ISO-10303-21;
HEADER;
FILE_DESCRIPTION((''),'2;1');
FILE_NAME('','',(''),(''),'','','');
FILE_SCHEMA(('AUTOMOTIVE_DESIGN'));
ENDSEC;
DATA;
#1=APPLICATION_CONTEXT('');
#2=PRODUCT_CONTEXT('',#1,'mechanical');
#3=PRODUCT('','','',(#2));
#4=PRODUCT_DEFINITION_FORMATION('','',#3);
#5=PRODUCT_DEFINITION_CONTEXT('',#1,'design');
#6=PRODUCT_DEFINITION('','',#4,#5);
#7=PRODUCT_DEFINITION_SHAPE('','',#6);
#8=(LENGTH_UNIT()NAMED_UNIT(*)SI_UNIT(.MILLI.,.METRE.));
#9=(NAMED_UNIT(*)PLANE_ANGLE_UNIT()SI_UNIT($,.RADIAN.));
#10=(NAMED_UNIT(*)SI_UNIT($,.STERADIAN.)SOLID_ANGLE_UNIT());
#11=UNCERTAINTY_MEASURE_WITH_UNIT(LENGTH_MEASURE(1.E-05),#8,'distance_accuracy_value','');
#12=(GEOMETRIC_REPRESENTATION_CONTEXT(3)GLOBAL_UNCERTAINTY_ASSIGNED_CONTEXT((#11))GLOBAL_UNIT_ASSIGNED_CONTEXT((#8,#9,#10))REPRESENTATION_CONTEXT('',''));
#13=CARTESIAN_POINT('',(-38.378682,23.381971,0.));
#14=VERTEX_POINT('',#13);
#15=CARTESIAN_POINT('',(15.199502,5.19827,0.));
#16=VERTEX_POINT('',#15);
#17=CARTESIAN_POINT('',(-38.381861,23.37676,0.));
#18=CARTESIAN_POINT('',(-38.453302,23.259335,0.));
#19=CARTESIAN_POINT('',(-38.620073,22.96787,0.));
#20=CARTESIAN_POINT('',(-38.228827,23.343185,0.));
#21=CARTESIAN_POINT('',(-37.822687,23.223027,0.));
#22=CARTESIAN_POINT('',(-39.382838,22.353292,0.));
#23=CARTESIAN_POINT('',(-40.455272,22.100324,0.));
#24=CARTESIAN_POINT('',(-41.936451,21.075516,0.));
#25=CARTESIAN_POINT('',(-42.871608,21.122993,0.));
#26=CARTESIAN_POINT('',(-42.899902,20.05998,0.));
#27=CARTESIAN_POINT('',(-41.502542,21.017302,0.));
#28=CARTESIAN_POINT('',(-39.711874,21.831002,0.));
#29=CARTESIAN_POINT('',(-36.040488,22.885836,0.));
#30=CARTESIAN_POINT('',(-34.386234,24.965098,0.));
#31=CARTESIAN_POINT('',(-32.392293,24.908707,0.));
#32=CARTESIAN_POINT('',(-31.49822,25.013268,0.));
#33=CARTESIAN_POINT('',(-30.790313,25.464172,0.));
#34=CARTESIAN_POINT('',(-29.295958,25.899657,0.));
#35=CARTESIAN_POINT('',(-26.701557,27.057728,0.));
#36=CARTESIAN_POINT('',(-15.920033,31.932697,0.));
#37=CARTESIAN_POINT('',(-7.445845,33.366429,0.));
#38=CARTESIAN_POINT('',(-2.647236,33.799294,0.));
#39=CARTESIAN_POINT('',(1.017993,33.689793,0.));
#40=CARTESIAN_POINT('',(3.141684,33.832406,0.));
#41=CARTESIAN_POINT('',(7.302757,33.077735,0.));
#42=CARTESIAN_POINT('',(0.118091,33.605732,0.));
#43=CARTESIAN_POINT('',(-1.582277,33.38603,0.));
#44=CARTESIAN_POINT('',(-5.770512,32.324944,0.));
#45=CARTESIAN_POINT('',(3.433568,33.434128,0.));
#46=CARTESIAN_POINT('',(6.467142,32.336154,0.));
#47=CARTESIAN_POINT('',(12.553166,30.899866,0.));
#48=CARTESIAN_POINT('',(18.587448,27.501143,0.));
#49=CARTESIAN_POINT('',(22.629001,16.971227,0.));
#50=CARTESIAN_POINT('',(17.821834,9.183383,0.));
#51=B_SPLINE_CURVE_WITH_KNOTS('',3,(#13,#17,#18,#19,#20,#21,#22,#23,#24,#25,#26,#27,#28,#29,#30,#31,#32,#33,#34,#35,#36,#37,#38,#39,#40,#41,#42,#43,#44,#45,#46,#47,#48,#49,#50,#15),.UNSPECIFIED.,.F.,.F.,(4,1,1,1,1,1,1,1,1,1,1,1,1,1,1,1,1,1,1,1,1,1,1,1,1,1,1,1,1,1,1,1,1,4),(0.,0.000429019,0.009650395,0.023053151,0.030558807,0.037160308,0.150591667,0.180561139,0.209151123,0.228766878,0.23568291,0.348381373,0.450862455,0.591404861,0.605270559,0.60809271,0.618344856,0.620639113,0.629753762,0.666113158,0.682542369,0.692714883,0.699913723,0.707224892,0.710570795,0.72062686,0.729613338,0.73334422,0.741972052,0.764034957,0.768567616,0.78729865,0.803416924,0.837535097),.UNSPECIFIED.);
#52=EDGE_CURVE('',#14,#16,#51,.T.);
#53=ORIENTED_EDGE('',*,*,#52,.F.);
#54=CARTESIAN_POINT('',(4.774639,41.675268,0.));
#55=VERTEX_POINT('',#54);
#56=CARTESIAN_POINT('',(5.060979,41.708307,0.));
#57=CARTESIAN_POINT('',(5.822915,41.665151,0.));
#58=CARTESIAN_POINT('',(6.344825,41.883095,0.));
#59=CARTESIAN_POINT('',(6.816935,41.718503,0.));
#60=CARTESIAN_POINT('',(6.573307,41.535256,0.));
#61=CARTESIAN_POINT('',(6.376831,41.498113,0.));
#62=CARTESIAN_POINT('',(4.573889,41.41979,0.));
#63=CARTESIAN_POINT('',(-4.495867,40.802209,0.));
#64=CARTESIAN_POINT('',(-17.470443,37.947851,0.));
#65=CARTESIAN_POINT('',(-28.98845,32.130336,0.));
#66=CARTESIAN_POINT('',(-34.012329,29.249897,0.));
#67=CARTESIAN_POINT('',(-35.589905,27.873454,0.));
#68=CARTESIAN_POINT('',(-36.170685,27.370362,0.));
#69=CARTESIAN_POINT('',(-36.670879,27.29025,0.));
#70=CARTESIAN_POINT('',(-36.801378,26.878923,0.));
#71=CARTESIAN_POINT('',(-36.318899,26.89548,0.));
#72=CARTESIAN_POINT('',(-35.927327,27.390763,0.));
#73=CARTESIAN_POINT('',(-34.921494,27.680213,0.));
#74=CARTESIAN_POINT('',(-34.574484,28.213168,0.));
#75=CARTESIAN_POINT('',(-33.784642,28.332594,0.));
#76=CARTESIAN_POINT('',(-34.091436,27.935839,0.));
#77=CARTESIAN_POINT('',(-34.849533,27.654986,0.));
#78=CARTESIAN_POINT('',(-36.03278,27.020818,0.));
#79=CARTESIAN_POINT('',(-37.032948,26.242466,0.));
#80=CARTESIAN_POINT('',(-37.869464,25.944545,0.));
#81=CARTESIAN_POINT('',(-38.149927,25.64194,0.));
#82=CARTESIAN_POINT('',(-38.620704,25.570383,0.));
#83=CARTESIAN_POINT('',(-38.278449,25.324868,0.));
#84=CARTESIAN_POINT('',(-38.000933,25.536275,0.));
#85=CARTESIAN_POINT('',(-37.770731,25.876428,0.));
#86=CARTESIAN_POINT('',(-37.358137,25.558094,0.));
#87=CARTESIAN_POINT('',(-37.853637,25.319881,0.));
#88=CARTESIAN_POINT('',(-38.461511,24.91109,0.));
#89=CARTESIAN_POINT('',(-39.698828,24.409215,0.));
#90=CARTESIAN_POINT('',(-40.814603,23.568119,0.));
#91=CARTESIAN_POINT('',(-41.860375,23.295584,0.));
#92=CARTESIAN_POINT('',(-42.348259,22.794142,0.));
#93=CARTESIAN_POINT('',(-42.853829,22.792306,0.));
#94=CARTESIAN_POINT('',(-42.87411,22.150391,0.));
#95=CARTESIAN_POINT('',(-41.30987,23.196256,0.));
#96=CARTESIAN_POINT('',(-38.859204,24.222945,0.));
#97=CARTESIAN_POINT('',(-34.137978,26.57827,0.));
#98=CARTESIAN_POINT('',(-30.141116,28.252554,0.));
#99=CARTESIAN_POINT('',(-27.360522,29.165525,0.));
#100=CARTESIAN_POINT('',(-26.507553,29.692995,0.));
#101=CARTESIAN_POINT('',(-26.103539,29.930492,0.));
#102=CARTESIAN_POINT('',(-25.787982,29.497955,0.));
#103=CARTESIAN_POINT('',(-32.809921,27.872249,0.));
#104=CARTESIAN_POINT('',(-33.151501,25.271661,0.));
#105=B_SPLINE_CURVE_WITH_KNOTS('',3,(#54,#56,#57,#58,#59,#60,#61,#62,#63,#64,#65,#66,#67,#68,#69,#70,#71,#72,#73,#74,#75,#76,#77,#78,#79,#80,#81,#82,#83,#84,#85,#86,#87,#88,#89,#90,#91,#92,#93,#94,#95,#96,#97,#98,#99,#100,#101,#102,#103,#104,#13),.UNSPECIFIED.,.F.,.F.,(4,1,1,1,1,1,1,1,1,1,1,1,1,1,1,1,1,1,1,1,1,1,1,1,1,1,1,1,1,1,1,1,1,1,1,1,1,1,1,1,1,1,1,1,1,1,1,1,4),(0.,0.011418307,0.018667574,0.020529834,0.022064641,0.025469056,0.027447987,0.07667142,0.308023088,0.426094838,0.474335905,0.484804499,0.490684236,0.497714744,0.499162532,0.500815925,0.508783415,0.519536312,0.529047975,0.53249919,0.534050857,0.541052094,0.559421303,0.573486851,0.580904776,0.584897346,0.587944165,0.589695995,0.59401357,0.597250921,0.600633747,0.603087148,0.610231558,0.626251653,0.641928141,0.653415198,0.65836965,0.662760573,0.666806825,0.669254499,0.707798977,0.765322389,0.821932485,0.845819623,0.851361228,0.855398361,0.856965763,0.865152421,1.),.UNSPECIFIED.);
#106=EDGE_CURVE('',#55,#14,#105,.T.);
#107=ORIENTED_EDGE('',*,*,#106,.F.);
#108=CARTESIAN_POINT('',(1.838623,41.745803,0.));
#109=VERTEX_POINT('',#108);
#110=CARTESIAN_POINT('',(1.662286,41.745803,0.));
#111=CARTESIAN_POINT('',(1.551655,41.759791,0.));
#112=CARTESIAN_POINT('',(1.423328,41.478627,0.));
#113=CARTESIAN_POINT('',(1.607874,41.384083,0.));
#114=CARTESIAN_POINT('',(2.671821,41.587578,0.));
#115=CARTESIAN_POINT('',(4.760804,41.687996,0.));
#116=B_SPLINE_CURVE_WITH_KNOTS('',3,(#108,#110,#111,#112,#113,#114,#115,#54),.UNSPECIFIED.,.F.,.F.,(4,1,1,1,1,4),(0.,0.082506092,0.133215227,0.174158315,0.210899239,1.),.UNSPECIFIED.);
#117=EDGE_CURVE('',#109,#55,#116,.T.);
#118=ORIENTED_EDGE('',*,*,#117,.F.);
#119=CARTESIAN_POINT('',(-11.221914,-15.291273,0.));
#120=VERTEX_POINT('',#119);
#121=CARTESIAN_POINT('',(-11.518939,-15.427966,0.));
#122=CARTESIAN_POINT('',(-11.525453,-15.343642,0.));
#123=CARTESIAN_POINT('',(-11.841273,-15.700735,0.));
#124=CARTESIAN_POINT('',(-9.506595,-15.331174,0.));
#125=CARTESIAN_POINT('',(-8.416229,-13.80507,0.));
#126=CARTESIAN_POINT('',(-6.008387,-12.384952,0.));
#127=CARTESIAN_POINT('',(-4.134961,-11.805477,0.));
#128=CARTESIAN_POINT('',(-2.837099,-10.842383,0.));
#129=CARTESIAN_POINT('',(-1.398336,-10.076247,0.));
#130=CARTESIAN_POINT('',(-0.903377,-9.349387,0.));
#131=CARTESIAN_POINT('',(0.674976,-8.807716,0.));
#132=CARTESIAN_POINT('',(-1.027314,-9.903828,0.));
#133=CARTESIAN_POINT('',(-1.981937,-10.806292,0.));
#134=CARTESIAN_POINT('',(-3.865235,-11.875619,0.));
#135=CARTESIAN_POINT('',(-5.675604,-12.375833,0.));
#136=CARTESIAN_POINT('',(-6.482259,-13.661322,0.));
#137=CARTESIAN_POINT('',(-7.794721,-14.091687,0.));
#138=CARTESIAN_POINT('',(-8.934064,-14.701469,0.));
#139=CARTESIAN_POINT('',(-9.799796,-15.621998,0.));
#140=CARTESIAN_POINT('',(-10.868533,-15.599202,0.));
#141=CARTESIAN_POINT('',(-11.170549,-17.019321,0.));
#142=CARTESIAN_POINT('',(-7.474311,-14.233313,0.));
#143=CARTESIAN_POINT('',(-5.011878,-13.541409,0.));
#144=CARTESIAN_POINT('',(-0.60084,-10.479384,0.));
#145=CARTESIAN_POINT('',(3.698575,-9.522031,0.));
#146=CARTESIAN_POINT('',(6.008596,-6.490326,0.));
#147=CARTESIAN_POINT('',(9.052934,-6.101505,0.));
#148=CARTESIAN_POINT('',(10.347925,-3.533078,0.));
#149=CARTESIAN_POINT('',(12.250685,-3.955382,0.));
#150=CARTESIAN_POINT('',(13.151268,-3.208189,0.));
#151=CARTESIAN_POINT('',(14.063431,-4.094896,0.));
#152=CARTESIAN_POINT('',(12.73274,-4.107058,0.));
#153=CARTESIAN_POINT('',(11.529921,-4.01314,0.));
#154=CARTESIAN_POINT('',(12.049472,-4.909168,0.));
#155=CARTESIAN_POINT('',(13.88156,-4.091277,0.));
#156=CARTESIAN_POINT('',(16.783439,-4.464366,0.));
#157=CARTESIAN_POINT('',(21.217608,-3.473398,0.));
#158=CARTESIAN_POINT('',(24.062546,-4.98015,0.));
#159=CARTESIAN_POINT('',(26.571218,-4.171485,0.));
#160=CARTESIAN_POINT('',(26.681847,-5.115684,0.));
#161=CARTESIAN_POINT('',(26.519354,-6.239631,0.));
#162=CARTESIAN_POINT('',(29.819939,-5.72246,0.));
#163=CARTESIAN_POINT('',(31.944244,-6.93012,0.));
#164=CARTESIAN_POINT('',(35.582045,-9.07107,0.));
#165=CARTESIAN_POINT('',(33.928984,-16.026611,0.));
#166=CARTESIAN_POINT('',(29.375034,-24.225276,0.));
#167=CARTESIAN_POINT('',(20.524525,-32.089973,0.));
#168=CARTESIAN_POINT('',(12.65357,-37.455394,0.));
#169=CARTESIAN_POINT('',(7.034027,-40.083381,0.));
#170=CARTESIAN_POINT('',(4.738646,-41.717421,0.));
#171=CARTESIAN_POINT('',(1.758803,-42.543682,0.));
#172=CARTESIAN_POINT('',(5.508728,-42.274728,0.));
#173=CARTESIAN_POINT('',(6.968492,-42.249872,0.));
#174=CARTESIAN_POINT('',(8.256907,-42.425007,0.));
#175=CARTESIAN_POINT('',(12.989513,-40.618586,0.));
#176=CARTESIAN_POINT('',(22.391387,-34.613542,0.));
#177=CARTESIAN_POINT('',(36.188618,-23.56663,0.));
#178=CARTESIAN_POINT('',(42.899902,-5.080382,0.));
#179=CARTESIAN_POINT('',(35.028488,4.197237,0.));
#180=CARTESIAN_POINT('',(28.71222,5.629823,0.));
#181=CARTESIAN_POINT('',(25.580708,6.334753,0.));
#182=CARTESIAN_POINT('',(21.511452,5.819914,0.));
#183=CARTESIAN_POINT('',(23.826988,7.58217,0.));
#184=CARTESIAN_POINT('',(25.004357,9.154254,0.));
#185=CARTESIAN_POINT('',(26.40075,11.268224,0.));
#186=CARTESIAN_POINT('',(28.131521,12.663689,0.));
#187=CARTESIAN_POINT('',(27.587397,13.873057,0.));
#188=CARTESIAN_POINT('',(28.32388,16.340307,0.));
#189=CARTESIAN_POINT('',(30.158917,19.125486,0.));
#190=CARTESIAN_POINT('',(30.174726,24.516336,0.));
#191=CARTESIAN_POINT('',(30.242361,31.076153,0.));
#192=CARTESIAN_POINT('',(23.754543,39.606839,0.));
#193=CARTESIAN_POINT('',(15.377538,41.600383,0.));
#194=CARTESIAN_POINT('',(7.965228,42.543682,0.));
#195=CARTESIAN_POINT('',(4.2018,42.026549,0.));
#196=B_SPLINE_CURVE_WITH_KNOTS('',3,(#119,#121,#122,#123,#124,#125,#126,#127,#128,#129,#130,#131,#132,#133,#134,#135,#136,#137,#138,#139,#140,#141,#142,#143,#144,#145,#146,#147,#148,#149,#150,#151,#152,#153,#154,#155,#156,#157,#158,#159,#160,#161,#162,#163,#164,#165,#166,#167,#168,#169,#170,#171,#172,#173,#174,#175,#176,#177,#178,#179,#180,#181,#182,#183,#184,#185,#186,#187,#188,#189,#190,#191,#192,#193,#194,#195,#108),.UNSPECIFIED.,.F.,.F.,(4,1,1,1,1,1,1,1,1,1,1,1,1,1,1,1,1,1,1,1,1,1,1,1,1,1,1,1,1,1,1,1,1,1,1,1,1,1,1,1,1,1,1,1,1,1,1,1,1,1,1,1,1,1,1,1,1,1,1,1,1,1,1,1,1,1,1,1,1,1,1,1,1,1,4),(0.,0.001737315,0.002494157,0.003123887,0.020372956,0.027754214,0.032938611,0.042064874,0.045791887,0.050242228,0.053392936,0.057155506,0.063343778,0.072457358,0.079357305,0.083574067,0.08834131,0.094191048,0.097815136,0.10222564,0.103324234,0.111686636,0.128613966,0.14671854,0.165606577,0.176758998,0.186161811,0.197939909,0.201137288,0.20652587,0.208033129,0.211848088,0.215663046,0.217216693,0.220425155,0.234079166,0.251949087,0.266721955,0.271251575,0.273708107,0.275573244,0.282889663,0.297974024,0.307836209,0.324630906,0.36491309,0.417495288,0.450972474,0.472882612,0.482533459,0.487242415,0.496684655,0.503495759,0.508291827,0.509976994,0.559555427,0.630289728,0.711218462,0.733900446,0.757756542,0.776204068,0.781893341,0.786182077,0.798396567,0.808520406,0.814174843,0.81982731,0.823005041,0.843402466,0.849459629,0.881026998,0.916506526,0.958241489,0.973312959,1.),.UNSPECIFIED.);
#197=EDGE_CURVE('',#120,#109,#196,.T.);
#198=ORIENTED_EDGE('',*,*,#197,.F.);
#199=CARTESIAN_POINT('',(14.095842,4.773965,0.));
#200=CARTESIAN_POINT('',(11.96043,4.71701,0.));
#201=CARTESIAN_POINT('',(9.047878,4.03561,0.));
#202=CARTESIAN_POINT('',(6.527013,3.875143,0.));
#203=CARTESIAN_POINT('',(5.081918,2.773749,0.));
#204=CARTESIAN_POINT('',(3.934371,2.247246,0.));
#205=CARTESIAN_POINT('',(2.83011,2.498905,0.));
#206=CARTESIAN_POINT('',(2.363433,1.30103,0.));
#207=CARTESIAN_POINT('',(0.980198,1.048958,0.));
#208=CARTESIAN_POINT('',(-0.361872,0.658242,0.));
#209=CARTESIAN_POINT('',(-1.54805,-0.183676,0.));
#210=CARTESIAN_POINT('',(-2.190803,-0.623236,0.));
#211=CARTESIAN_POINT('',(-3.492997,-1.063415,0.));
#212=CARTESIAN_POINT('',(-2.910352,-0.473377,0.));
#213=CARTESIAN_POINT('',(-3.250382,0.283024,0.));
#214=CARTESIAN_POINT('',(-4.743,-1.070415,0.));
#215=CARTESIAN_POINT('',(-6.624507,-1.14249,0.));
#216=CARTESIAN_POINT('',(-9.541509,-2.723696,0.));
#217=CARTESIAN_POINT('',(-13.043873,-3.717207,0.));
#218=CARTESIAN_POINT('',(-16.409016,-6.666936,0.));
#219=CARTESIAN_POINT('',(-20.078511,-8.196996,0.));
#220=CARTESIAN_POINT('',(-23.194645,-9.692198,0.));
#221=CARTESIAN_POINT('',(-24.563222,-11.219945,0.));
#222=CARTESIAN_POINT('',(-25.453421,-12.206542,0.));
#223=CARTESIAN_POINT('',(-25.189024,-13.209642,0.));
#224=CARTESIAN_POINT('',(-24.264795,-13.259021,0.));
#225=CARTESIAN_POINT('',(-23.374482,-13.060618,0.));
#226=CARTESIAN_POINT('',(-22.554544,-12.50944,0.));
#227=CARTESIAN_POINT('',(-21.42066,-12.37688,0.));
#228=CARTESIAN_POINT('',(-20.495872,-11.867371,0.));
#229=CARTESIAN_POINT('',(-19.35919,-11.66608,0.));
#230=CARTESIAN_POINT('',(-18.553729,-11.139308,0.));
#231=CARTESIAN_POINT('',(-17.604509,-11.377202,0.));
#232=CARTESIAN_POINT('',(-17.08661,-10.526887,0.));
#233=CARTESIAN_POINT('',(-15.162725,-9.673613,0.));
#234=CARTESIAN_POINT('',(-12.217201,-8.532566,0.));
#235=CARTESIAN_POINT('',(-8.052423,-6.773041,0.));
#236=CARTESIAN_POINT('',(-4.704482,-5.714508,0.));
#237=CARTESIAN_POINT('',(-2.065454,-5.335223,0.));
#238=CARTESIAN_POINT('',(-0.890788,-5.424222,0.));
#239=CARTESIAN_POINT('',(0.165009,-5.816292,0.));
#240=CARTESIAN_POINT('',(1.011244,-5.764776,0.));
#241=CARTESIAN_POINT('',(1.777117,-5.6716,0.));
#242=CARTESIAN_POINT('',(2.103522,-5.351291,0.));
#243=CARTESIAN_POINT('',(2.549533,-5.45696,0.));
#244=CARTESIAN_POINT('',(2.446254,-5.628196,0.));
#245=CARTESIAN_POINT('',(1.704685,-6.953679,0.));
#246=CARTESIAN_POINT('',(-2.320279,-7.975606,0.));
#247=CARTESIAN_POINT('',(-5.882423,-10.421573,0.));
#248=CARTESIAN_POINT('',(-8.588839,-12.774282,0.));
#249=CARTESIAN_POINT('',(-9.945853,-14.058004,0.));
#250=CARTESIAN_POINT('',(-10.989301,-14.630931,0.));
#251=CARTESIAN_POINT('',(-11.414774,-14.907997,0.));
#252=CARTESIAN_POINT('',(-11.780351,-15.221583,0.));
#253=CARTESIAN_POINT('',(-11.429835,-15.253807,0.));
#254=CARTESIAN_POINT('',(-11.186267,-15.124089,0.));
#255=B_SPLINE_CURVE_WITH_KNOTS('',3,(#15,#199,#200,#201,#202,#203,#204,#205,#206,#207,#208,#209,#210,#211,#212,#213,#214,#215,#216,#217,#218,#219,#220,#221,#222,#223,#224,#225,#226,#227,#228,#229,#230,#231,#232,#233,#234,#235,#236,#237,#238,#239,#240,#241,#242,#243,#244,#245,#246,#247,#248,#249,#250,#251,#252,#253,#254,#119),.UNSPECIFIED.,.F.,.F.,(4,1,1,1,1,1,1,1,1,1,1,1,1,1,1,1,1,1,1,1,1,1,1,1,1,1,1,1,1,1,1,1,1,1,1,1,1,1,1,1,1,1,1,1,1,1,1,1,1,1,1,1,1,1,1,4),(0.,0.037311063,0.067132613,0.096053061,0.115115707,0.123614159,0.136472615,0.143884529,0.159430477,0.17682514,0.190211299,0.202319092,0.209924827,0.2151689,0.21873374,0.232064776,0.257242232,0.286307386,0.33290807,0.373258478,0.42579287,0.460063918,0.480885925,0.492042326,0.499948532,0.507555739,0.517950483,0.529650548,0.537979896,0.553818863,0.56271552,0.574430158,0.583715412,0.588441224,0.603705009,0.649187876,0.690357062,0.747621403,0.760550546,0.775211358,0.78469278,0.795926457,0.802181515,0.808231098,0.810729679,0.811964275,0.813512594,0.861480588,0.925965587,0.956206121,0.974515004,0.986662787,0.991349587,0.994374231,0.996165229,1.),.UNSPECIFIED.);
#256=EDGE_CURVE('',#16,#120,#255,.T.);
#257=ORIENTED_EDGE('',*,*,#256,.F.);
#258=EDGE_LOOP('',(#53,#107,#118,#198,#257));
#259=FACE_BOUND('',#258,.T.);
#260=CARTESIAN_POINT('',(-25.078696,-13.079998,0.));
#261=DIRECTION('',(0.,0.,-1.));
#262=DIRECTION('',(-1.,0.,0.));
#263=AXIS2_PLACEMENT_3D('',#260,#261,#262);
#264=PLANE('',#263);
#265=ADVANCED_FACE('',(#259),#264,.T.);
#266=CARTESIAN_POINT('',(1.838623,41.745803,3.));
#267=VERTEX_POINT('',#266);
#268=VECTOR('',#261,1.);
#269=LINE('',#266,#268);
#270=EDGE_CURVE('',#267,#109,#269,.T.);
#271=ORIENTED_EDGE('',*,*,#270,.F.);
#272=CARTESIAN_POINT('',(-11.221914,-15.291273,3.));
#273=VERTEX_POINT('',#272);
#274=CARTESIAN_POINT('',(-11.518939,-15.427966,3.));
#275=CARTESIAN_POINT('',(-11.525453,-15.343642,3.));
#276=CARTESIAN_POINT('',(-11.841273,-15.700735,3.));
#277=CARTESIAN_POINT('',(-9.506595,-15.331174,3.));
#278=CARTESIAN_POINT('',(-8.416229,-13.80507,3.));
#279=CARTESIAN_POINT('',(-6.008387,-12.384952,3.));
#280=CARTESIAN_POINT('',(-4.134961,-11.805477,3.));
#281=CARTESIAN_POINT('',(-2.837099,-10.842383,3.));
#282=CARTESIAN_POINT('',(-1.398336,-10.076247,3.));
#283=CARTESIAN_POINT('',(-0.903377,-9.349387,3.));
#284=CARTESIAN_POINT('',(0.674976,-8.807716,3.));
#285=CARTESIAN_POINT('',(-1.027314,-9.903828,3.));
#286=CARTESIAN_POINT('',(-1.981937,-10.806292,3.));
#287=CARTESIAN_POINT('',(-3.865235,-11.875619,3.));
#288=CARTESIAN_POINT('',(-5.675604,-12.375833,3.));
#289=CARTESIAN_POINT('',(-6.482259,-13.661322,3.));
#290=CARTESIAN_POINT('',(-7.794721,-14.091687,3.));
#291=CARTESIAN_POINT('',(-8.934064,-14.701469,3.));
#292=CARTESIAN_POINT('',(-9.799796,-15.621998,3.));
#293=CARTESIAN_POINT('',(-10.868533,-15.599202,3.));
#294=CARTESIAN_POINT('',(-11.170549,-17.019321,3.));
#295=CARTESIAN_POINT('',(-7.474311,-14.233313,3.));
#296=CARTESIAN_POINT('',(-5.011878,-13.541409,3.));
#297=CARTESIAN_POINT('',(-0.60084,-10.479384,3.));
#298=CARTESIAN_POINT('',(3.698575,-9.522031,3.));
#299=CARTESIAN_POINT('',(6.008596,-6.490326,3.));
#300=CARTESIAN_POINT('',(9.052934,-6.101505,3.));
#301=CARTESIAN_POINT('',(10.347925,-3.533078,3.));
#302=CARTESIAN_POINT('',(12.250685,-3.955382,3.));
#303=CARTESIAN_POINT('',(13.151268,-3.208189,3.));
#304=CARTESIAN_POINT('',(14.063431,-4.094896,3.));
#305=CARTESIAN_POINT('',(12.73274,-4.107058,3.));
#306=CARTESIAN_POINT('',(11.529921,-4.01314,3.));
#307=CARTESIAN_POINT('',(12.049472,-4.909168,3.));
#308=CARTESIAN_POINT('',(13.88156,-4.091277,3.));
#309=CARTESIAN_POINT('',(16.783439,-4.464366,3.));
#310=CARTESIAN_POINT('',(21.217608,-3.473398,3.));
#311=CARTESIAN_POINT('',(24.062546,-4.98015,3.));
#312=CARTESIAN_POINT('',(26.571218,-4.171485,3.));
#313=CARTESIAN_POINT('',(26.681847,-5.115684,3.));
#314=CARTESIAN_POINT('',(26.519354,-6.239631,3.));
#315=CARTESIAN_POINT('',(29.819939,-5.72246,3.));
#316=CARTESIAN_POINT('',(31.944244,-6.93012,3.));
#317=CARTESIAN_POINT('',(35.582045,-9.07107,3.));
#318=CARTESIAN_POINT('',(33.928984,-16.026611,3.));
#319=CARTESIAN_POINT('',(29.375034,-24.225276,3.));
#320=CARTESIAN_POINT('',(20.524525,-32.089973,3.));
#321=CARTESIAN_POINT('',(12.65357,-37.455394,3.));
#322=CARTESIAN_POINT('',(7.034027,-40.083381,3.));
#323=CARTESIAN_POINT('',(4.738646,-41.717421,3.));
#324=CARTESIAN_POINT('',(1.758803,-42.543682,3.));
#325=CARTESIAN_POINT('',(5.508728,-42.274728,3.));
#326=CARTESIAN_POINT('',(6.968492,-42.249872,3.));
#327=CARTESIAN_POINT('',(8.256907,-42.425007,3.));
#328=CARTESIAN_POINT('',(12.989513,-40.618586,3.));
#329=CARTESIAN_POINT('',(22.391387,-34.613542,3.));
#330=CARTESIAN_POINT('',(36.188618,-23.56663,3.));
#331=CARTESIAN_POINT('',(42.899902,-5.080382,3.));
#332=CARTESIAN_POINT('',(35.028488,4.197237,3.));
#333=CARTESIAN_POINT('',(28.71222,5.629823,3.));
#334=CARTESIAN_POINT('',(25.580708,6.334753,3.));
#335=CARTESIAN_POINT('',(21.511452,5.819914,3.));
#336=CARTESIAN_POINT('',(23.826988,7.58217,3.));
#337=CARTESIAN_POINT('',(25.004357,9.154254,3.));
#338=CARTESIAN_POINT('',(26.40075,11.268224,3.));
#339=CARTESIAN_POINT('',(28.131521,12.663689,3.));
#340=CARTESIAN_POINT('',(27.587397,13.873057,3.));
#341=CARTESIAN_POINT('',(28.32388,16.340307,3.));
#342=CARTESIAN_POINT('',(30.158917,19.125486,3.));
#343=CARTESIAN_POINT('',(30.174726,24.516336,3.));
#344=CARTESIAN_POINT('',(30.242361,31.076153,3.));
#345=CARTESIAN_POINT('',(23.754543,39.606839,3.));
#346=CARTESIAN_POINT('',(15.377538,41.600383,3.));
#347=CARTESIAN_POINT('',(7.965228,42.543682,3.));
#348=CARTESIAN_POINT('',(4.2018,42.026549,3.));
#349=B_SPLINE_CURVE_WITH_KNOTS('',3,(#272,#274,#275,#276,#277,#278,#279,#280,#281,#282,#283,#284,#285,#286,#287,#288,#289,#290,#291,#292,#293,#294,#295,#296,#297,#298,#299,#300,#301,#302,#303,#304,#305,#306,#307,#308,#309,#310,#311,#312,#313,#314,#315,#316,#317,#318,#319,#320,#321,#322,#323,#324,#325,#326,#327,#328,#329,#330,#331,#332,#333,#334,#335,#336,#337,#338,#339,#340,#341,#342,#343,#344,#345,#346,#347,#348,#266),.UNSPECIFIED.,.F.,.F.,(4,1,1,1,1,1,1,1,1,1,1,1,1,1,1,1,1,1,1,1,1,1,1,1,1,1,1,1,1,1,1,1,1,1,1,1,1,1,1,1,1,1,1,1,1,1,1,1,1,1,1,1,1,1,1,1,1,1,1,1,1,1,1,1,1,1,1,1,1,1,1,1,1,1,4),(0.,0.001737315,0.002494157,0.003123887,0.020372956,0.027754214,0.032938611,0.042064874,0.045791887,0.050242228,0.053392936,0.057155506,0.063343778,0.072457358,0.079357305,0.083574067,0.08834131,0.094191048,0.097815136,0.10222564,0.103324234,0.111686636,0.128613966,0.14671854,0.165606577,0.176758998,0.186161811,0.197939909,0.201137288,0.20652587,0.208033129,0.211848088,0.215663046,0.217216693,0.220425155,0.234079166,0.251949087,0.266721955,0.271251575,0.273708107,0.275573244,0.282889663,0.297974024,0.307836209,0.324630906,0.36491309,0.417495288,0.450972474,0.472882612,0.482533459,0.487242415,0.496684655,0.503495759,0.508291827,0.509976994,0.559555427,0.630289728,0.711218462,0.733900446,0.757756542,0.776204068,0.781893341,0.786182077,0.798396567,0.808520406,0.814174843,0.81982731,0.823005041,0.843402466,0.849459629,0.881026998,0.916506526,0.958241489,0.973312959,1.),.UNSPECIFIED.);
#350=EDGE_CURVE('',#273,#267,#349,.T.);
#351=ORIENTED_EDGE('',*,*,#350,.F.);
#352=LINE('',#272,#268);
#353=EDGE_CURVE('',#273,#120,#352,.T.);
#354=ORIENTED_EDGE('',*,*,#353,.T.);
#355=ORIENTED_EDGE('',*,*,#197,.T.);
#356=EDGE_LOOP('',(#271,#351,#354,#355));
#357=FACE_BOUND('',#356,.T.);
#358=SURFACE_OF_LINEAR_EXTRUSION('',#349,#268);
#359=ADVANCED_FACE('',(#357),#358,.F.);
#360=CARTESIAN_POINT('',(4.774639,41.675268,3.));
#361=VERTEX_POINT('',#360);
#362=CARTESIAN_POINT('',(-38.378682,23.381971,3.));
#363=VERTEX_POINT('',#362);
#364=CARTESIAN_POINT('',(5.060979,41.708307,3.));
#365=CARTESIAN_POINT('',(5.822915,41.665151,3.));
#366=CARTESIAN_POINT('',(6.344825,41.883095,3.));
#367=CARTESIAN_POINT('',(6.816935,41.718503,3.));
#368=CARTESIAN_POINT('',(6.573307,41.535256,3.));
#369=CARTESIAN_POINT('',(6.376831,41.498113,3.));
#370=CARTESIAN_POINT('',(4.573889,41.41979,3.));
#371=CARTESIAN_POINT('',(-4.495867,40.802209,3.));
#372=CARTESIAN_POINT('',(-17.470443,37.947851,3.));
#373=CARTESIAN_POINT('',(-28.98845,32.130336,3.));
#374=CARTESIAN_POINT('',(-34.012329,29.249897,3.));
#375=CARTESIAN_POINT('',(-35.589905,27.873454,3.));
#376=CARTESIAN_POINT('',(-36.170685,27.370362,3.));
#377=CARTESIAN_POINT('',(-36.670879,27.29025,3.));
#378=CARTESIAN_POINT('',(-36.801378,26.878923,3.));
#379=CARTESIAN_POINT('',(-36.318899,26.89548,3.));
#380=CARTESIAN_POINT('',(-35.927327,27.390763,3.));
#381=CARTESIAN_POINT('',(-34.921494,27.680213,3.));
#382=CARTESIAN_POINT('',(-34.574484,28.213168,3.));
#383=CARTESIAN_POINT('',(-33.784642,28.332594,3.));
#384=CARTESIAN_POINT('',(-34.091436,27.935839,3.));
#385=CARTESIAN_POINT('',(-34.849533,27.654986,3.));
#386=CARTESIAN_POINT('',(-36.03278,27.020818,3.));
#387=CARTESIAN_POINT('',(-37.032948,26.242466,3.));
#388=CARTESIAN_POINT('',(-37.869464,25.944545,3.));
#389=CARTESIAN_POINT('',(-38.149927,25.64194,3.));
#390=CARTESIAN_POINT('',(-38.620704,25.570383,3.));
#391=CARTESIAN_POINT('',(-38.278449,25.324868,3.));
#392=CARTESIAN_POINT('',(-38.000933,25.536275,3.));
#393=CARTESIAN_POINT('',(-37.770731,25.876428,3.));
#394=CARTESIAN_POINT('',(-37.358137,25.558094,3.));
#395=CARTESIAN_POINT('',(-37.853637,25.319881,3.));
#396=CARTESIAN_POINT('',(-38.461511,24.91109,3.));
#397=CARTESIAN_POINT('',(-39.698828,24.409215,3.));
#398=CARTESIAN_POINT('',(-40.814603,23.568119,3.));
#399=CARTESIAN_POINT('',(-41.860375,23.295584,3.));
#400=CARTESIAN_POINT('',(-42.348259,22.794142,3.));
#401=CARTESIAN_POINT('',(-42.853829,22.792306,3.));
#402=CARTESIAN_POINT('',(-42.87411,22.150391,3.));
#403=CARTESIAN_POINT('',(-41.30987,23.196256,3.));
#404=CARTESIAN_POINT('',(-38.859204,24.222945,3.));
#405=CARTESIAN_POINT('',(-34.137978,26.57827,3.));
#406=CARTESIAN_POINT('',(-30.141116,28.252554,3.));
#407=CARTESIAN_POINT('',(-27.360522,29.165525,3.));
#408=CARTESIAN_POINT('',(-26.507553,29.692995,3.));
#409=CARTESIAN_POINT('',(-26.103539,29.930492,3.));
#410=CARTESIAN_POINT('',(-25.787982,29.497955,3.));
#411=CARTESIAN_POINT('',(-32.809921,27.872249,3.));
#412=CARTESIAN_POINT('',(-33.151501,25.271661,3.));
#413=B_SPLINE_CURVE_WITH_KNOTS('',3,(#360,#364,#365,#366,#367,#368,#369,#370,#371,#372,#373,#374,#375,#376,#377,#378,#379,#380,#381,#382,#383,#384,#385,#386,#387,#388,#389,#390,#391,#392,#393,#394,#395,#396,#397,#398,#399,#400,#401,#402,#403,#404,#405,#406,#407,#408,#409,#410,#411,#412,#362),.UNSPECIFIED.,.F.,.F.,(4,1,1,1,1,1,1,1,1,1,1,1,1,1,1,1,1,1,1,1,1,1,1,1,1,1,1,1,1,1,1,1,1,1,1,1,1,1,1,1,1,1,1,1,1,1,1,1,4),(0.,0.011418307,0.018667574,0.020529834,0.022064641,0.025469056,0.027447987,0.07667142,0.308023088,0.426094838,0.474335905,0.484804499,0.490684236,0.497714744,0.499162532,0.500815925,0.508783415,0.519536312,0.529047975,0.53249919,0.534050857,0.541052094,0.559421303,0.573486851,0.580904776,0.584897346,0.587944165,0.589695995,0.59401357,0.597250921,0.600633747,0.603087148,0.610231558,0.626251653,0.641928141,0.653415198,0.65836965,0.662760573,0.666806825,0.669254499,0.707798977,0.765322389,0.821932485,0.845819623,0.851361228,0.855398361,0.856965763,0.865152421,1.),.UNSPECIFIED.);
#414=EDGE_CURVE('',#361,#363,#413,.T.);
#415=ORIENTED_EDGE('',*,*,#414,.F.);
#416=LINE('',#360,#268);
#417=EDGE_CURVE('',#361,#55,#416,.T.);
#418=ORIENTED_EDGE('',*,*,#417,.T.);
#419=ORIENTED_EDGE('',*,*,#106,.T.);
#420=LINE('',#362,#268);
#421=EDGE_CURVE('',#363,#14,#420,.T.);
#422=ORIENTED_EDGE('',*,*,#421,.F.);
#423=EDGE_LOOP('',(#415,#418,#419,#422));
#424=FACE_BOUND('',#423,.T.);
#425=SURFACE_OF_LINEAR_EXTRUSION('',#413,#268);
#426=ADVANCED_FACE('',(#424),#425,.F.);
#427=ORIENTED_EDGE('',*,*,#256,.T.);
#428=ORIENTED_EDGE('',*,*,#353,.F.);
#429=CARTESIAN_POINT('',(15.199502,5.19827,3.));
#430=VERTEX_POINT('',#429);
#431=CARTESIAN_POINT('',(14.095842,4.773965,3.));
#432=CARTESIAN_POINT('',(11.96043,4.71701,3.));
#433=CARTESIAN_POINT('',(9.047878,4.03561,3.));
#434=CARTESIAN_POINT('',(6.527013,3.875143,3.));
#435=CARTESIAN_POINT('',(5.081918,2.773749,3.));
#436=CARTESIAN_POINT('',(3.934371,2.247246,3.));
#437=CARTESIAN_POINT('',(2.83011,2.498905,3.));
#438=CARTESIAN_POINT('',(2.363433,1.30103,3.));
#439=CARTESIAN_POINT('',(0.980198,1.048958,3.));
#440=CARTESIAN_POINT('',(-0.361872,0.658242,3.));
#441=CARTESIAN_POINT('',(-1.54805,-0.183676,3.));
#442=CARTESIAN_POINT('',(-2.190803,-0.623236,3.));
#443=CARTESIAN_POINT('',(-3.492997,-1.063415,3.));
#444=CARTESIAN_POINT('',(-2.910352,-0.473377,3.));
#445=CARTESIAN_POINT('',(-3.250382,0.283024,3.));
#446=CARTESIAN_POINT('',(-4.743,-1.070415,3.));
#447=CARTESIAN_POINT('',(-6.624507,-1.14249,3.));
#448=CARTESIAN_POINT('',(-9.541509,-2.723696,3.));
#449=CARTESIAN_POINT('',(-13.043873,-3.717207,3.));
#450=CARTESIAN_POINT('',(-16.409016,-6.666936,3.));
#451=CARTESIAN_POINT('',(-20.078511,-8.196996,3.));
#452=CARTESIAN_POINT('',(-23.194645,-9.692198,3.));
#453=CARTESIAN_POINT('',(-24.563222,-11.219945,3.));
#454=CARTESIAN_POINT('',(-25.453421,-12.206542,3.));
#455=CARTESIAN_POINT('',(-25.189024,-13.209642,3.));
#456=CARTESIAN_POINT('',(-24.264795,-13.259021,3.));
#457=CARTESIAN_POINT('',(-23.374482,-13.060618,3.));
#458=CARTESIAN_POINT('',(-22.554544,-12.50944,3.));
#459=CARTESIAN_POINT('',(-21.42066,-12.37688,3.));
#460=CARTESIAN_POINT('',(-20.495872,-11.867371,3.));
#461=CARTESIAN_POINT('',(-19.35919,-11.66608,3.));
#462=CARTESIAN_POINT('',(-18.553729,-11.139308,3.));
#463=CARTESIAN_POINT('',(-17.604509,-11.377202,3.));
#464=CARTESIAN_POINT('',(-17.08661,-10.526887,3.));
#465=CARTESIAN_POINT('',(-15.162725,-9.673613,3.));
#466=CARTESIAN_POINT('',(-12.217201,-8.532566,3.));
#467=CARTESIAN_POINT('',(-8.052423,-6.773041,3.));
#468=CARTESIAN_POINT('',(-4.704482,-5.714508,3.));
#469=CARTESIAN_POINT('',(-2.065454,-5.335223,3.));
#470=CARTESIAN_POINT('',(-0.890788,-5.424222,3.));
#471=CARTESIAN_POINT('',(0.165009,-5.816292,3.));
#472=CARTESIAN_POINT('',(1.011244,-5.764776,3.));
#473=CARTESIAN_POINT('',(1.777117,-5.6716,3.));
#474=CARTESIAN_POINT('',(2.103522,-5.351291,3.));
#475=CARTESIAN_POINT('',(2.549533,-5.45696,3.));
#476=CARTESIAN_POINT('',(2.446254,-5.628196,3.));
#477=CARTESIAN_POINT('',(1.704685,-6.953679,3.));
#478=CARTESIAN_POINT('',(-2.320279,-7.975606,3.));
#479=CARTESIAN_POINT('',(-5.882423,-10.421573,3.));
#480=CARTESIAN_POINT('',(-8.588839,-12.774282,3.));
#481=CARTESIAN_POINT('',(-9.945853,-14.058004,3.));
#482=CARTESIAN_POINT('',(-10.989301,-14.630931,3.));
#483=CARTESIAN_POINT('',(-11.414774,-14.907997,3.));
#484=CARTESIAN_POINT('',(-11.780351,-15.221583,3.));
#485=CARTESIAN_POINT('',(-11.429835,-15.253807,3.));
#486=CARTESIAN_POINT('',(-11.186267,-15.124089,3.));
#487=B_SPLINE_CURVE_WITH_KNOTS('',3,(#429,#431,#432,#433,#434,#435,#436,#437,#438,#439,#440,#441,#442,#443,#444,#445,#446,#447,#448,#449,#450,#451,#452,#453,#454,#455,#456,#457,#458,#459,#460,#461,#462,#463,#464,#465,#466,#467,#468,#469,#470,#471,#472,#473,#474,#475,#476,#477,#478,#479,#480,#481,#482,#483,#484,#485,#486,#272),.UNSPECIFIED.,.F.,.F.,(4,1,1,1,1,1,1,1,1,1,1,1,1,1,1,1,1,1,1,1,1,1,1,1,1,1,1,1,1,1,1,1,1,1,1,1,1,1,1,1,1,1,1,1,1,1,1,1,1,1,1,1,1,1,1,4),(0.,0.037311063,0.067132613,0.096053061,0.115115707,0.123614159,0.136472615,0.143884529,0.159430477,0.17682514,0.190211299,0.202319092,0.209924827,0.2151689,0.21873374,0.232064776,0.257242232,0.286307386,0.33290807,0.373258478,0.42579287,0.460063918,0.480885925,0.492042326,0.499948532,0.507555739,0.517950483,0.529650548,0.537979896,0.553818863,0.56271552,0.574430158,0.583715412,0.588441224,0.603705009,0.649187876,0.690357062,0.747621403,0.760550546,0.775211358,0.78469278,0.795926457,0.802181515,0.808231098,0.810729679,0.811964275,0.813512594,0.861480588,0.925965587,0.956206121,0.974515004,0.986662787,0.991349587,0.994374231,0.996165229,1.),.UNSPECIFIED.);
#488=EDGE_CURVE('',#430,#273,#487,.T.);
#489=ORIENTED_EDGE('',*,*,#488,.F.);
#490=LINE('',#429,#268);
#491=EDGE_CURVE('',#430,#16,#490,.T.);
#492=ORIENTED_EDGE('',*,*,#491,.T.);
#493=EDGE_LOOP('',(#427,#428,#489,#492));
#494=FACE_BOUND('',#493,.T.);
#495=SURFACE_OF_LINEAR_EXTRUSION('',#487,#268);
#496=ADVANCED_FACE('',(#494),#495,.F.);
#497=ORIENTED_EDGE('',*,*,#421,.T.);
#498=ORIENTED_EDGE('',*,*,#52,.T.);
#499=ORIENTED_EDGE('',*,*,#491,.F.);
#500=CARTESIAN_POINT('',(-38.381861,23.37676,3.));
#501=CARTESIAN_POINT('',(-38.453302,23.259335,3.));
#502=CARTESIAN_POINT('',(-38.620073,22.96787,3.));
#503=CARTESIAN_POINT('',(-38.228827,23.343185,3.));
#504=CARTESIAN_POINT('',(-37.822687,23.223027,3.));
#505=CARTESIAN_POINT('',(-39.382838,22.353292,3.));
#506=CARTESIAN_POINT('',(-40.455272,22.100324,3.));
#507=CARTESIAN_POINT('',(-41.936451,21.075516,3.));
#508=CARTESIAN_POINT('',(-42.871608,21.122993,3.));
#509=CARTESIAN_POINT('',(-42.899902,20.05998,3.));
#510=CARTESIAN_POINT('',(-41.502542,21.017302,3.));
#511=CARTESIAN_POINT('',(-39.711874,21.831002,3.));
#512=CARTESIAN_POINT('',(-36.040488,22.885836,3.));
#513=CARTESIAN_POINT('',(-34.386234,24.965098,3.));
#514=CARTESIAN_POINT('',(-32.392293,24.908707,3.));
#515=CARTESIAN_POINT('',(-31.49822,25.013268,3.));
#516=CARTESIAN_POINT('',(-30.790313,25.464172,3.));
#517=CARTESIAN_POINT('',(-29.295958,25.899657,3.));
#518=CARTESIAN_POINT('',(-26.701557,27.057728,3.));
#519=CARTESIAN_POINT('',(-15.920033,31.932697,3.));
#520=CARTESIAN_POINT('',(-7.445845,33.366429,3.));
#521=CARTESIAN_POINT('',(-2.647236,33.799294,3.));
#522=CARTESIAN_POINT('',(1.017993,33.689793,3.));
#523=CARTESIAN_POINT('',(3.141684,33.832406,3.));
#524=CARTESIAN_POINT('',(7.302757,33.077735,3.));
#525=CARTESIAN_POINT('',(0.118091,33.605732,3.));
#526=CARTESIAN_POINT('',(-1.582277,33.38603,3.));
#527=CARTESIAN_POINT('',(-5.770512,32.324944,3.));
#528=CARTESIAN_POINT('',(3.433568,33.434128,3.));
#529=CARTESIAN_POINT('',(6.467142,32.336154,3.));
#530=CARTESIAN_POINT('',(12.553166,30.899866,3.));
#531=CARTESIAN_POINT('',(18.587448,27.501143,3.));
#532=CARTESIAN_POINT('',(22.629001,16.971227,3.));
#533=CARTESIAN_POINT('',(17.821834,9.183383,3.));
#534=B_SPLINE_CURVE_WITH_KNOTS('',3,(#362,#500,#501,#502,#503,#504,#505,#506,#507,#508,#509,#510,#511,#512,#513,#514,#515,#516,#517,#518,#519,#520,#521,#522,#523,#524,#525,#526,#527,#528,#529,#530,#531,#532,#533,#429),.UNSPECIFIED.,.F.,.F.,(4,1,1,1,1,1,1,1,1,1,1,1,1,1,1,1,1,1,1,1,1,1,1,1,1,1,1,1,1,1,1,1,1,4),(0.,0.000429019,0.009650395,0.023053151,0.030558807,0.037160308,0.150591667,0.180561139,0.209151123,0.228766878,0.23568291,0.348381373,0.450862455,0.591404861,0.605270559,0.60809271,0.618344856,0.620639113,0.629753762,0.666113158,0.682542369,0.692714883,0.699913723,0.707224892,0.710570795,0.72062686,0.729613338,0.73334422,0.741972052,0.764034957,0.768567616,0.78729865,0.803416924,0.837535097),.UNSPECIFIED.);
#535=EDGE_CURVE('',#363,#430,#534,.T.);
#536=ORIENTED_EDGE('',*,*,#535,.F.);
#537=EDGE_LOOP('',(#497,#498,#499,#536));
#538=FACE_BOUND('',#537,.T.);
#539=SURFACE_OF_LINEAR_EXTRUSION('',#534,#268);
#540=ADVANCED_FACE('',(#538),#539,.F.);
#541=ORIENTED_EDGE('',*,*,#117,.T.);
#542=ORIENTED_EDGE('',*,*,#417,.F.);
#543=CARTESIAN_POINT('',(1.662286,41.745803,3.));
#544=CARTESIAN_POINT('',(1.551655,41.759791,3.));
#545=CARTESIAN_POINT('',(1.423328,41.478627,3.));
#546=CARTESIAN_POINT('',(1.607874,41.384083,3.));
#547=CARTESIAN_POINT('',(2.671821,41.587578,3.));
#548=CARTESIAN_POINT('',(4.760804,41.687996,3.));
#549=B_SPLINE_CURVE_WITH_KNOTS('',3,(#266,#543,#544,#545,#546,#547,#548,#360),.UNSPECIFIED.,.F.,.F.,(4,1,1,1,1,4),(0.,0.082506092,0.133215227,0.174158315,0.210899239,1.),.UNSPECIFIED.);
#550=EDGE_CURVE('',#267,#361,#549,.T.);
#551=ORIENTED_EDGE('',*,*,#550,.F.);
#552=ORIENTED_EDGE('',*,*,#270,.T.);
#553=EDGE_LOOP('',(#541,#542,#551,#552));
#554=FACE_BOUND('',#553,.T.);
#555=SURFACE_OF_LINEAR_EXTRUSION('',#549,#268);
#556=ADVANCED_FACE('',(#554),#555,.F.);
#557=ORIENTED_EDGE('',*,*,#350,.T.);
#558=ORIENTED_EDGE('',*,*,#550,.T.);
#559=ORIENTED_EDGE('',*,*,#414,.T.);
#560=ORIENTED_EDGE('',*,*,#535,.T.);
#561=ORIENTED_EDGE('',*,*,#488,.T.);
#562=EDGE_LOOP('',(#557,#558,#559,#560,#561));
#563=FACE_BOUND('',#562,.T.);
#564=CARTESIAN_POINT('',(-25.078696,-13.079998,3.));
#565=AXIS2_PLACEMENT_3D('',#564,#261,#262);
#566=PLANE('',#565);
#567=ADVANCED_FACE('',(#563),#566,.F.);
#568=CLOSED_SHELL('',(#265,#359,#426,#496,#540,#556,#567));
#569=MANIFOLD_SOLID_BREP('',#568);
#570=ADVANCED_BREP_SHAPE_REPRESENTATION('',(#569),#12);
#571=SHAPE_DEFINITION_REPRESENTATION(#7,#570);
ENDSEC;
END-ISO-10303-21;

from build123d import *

# Parameters (mm, degrees)
BOSS_EXTRU_1_DEPTH = 3


with BuildPart() as part:
    # Esquisse1 → Boss.-Extru.1 (new body)
    with BuildSketch(Plane.XY):
        with BuildLine():
            add(Edge.make_bspline(
                [(15.199501596, 5.19827013), (17.821833875, 9.183383275), (22.629000949, 16.971227456), (18.587447692, 27.501142532), (12.553165944, 30.899865523), (6.467142022, 32.336154462), (3.433568066, 33.434127811), (-5.770512028, 32.324943728), (-1.58227749, 33.386029511), (0.11809062, 33.6057321), (7.302757441, 33.077735479), (3.141684449, 33.832405539), (1.017993336, 33.689793167), (-2.647236245, 33.799293666), (-7.445845477, 33.366429245), (-15.92003306, 31.932697487), (-26.701556747, 27.057728234), (-29.295958162, 25.899656594), (-30.790313218, 25.464172279), (-31.498220123, 25.013268287), (-32.392292528, 24.908707224), (-34.386234324, 24.965098221), (-36.040487773, 22.885836342), (-39.711873597, 21.831002358), (-41.502541813, 21.017301699), (-42.899901567, 20.059980456), (-42.871608491, 21.122992506), (-41.936451138, 21.075515631), (-40.455272075, 22.100323687), (-39.382838325, 22.353291806), (-37.822686797, 23.223027137), (-38.228826553, 23.34318535), (-38.620072584, 22.967870193), (-38.453301779, 23.259334997), (-38.381861279, 23.376759578), (-38.378682104, 23.381970776)],
                knots=[0, 0, 0, 0, 0.034118173, 0.050236448, 0.068967481, 0.073500141, 0.095563045, 0.104190877, 0.107921759, 0.116908237, 0.126964302, 0.130310205, 0.137621374, 0.144820214, 0.154992728, 0.171421939, 0.207781336, 0.216895984, 0.219190241, 0.229442387, 0.232264538, 0.246130236, 0.386672642, 0.489153724, 0.601852187, 0.608768219, 0.628383974, 0.656973958, 0.68694343, 0.800374789, 0.80697629, 0.814481946, 0.827884702, 0.837106078, 0.837535097, 0.837535097, 0.837535097, 0.837535097], degree=3))
            add(Edge.make_bspline(
                [(-38.378682104, 23.381970776), (-33.151500906, 25.27166131), (-32.809920673, 27.872248644), (-25.787981842, 29.497955347), (-26.103538738, 29.930492256), (-26.507553428, 29.692995214), (-27.360521745, 29.16552524), (-30.14111601, 28.252554063), (-34.137978212, 26.578270453), (-38.859204285, 24.222944944), (-41.309869859, 23.196256236), (-42.874110309, 22.150391358), (-42.853829074, 22.792306223), (-42.348259232, 22.794141871), (-41.860375174, 23.295583602), (-40.814603077, 23.568119398), (-39.698827779, 24.409215193), (-38.461511387, 24.911089892), (-37.853637417, 25.319881346), (-37.358137169, 25.558094256), (-37.770730538, 25.876427723), (-38.000933013, 25.536274622), (-38.278449034, 25.324868277), (-38.620704246, 25.570383325), (-38.149927254, 25.641939549), (-37.869464205, 25.944545015), (-37.03294802, 26.2424661), (-36.032779709, 27.020817592), (-34.849532896, 27.654985639), (-34.091436034, 27.935839495), (-33.784642378, 28.332593873), (-34.574483589, 28.213168014), (-34.921493986, 27.680212694), (-35.927327309, 27.390762754), (-36.3188987, 26.895480436), (-36.801377521, 26.878923203), (-36.670879334, 27.290250395), (-36.170684675, 27.370362246), (-35.589905209, 27.8734543), (-34.012328886, 29.2498972), (-28.988450227, 32.130336463), (-17.470443336, 37.947850868), (-4.495867131, 40.802208637), (4.57388912, 41.419790355), (6.376830738, 41.498112846), (6.573306634, 41.535255858), (6.816934834, 41.718502901), (6.344825058, 41.883095175), (5.8229147, 41.665150553), (5.060979207, 41.708307088), (4.774639109, 41.675267845)],
                knots=[0, 0, 0, 0, 0.134847579, 0.143034237, 0.144601639, 0.148638772, 0.154180377, 0.178067515, 0.234677611, 0.292201023, 0.330745501, 0.333193175, 0.337239427, 0.34163035, 0.346584802, 0.358071859, 0.373748347, 0.389768442, 0.396912852, 0.399366253, 0.402749079, 0.40598643, 0.410304005, 0.412055835, 0.415102654, 0.419095224, 0.426513149, 0.440578697, 0.458947906, 0.465949143, 0.46750081, 0.470952025, 0.480463688, 0.491216585, 0.499184075, 0.500837468, 0.502285256, 0.509315764, 0.515195501, 0.525664095, 0.573905162, 0.691976912, 0.92332858, 0.972552013, 0.974530944, 0.977935359, 0.979470166, 0.981332426, 0.988581693, 1, 1, 1, 1], degree=3))
            add(Edge.make_bspline(
                [(4.774639109, 41.675267845), (4.760803818, 41.687996313), (2.671820513, 41.587578359), (1.60787378, 41.384083364), (1.423328249, 41.478627344), (1.551654818, 41.759790589), (1.662285876, 41.745802763), (1.83862317, 41.745802763)],
                knots=[0, 0, 0, 0, 0.789100761, 0.825841685, 0.866784773, 0.917493908, 1, 1, 1, 1], degree=3))
            add(Edge.make_bspline(
                [(1.83862317, 41.745802763), (4.201800044, 42.026548884), (7.965227852, 42.543681936), (15.377537811, 41.600383021), (23.754542689, 39.606839104), (30.242361011, 31.076153004), (30.174726072, 24.516335954), (30.158916907, 19.125485991), (28.323879587, 16.340307286), (27.587397297, 13.873056817), (28.131520854, 12.663689238), (26.40075046, 11.268224295), (25.004357473, 9.154253691), (23.826987881, 7.582169808), (21.511451775, 5.819913561), (25.580707552, 6.334753322), (28.71221984, 5.62982261), (35.028487912, 4.197237385), (42.899901567, -5.080382226), (36.188617846, -23.566629927), (22.391386767, -34.613541924), (12.98951267, -40.618585786), (8.256907238, -42.425006734), (6.968491784, -42.249871811), (5.508728267, -42.27472829), (1.758802816, -42.543681936), (4.738646405, -41.717421307), (7.034027075, -40.083380879), (12.65356979, -37.455394119), (20.524525181, -32.089972711), (29.375033553, -24.225276217), (33.928983956, -16.026611157), (35.582044813, -9.071070171), (31.944243877, -6.930120121), (29.819938636, -5.722460455), (26.519353522, -6.239631422), (26.681847386, -5.1156838), (26.571218073, -4.171485179), (24.062546236, -4.980149617), (21.217607914, -3.473398055), (16.783439389, -4.464366384), (13.881560029, -4.091277119), (12.049471654, -4.909167772), (11.529921439, -4.013140009), (12.732739638, -4.107057841), (14.063430877, -4.09489587), (13.15126826, -3.208188584), (12.250684629, -3.955381689), (10.347925444, -3.533078373), (9.052934091, -6.101505467), (6.008596073, -6.490326167), (3.698575097, -9.522030954), (-0.600839716, -10.479384464), (-5.011878016, -13.541408597), (-7.47431087, -14.233312629), (-11.170549406, -17.019321239), (-10.868532927, -15.599201661), (-9.799796267, -15.621998192), (-8.934063686, -14.701468685), (-7.79472109, -14.091686751), (-6.48225912, -13.661321926), (-5.675604177, -12.375832772), (-3.865234922, -11.87561888), (-1.981937073, -10.806291667), (-1.027313928, -9.903827905), (0.674975578, -8.807715989), (-0.903376936, -9.349386703), (-1.398336032, -10.076246783), (-2.83709933, -10.842382907), (-4.134960591, -11.80547712), (-6.008386977, -12.384951899), (-8.416228937, -13.805069763), (-9.506595337, -15.331173886), (-11.841272792, -15.700735402), (-11.525452522, -15.343641859), (-11.518938915, -15.42796626), (-11.22191417, -15.29127299)],
                knots=[0, 0, 0, 0, 0.026687041, 0.041758511, 0.083493474, 0.118973002, 0.150540371, 0.156597534, 0.176994959, 0.18017269, 0.185825157, 0.191479594, 0.201603433, 0.213817923, 0.218106659, 0.223795932, 0.242243458, 0.266099554, 0.288781538, 0.369710272, 0.440444573, 0.490023006, 0.491708173, 0.496504241, 0.503315345, 0.512757585, 0.517466541, 0.527117388, 0.549027526, 0.582504712, 0.63508691, 0.675369094, 0.692163791, 0.702025976, 0.717110337, 0.724426756, 0.726291893, 0.728748425, 0.733278045, 0.748050913, 0.765920834, 0.779574845, 0.782783307, 0.784336954, 0.788151912, 0.791966871, 0.79347413, 0.798862712, 0.802060091, 0.813838189, 0.823241002, 0.834393423, 0.85328146, 0.871386034, 0.888313364, 0.896675766, 0.89777436, 0.902184864, 0.905808952, 0.91165869, 0.916425933, 0.920642695, 0.927542642, 0.936656222, 0.942844494, 0.946607064, 0.949757772, 0.954208113, 0.957935126, 0.967061389, 0.972245786, 0.979627044, 0.996876113, 0.997505843, 0.998262685, 1, 1, 1, 1], degree=3))
            add(Edge.make_bspline(
                [(-11.22191417, -15.29127299), (-11.186266764, -15.124088641), (-11.429834985, -15.253807068), (-11.780350866, -15.221582917), (-11.414774009, -14.90799667), (-10.989300607, -14.630931079), (-9.945852898, -14.058003537), (-8.588838509, -12.774282026), (-5.882423151, -10.421572507), (-2.320279206, -7.975605625), (1.704685174, -6.953678961), (2.446253852, -5.628195526), (2.549533359, -5.456959728), (2.103521886, -5.351291027), (1.777117428, -5.671600424), (1.011243916, -5.764776083), (0.165009296, -5.816292013), (-0.890788083, -5.42422225), (-2.065453773, -5.335222804), (-4.704482206, -5.7145082), (-8.052423489, -6.773041324), (-12.217201184, -8.532565943), (-15.162724673, -9.673613359), (-17.086609685, -10.526886626), (-17.604509095, -11.377201508), (-18.553728659, -11.139307999), (-19.359189647, -11.666080336), (-20.495872405, -11.86737146), (-21.420659909, -12.376879658), (-22.554544298, -12.509439682), (-23.374481711, -13.060618435), (-24.264794986, -13.259020548), (-25.189023581, -13.209642404), (-25.4534214, -12.206542129), (-24.56322207, -11.219945232), (-23.194644984, -9.69219821), (-20.078511055, -8.196996222), (-16.409016186, -6.666936221), (-13.043872582, -3.717207164), (-9.54150942, -2.723696465), (-6.624506686, -1.14249), (-4.74300044, -1.070415059), (-3.250382499, 0.283024268), (-2.910352487, -0.473377103), (-3.492997458, -1.063414753), (-2.190803406, -0.623235529), (-1.548049956, -0.183676376), (-0.361872164, 0.658241758), (0.980198169, 1.048957658), (2.363432609, 1.301029537), (2.830110202, 2.498904618), (3.934371409, 2.247245707), (5.081917906, 2.773748574), (6.527013108, 3.87514312), (9.047877847, 4.035609544), (11.96042957, 4.717009799), (14.095841953, 4.773964642), (15.199501596, 5.19827013)],
                knots=[0, 0, 0, 0, 0.003834771, 0.005625769, 0.008650413, 0.013337213, 0.025484996, 0.043793879, 0.074034413, 0.138519412, 0.186487406, 0.188035725, 0.189270321, 0.191768902, 0.197818485, 0.204073543, 0.21530722, 0.224788642, 0.239449454, 0.252378597, 0.309642938, 0.350812124, 0.396294991, 0.411558776, 0.416284588, 0.425569842, 0.43728448, 0.446181137, 0.462020104, 0.470349452, 0.482049517, 0.492444261, 0.500051468, 0.507957674, 0.519114075, 0.539936082, 0.57420713, 0.626741522, 0.66709193, 0.713692614, 0.742757768, 0.767935224, 0.78126626, 0.7848311, 0.790075173, 0.797680908, 0.809788701, 0.82317486, 0.840569523, 0.856115471, 0.863527385, 0.876385841, 0.884884293, 0.903946939, 0.932867387, 0.962688937, 1, 1, 1, 1], degree=3))
        make_face()
    extrude(amount=BOSS_EXTRU_1_DEPTH)


solid = part.part
